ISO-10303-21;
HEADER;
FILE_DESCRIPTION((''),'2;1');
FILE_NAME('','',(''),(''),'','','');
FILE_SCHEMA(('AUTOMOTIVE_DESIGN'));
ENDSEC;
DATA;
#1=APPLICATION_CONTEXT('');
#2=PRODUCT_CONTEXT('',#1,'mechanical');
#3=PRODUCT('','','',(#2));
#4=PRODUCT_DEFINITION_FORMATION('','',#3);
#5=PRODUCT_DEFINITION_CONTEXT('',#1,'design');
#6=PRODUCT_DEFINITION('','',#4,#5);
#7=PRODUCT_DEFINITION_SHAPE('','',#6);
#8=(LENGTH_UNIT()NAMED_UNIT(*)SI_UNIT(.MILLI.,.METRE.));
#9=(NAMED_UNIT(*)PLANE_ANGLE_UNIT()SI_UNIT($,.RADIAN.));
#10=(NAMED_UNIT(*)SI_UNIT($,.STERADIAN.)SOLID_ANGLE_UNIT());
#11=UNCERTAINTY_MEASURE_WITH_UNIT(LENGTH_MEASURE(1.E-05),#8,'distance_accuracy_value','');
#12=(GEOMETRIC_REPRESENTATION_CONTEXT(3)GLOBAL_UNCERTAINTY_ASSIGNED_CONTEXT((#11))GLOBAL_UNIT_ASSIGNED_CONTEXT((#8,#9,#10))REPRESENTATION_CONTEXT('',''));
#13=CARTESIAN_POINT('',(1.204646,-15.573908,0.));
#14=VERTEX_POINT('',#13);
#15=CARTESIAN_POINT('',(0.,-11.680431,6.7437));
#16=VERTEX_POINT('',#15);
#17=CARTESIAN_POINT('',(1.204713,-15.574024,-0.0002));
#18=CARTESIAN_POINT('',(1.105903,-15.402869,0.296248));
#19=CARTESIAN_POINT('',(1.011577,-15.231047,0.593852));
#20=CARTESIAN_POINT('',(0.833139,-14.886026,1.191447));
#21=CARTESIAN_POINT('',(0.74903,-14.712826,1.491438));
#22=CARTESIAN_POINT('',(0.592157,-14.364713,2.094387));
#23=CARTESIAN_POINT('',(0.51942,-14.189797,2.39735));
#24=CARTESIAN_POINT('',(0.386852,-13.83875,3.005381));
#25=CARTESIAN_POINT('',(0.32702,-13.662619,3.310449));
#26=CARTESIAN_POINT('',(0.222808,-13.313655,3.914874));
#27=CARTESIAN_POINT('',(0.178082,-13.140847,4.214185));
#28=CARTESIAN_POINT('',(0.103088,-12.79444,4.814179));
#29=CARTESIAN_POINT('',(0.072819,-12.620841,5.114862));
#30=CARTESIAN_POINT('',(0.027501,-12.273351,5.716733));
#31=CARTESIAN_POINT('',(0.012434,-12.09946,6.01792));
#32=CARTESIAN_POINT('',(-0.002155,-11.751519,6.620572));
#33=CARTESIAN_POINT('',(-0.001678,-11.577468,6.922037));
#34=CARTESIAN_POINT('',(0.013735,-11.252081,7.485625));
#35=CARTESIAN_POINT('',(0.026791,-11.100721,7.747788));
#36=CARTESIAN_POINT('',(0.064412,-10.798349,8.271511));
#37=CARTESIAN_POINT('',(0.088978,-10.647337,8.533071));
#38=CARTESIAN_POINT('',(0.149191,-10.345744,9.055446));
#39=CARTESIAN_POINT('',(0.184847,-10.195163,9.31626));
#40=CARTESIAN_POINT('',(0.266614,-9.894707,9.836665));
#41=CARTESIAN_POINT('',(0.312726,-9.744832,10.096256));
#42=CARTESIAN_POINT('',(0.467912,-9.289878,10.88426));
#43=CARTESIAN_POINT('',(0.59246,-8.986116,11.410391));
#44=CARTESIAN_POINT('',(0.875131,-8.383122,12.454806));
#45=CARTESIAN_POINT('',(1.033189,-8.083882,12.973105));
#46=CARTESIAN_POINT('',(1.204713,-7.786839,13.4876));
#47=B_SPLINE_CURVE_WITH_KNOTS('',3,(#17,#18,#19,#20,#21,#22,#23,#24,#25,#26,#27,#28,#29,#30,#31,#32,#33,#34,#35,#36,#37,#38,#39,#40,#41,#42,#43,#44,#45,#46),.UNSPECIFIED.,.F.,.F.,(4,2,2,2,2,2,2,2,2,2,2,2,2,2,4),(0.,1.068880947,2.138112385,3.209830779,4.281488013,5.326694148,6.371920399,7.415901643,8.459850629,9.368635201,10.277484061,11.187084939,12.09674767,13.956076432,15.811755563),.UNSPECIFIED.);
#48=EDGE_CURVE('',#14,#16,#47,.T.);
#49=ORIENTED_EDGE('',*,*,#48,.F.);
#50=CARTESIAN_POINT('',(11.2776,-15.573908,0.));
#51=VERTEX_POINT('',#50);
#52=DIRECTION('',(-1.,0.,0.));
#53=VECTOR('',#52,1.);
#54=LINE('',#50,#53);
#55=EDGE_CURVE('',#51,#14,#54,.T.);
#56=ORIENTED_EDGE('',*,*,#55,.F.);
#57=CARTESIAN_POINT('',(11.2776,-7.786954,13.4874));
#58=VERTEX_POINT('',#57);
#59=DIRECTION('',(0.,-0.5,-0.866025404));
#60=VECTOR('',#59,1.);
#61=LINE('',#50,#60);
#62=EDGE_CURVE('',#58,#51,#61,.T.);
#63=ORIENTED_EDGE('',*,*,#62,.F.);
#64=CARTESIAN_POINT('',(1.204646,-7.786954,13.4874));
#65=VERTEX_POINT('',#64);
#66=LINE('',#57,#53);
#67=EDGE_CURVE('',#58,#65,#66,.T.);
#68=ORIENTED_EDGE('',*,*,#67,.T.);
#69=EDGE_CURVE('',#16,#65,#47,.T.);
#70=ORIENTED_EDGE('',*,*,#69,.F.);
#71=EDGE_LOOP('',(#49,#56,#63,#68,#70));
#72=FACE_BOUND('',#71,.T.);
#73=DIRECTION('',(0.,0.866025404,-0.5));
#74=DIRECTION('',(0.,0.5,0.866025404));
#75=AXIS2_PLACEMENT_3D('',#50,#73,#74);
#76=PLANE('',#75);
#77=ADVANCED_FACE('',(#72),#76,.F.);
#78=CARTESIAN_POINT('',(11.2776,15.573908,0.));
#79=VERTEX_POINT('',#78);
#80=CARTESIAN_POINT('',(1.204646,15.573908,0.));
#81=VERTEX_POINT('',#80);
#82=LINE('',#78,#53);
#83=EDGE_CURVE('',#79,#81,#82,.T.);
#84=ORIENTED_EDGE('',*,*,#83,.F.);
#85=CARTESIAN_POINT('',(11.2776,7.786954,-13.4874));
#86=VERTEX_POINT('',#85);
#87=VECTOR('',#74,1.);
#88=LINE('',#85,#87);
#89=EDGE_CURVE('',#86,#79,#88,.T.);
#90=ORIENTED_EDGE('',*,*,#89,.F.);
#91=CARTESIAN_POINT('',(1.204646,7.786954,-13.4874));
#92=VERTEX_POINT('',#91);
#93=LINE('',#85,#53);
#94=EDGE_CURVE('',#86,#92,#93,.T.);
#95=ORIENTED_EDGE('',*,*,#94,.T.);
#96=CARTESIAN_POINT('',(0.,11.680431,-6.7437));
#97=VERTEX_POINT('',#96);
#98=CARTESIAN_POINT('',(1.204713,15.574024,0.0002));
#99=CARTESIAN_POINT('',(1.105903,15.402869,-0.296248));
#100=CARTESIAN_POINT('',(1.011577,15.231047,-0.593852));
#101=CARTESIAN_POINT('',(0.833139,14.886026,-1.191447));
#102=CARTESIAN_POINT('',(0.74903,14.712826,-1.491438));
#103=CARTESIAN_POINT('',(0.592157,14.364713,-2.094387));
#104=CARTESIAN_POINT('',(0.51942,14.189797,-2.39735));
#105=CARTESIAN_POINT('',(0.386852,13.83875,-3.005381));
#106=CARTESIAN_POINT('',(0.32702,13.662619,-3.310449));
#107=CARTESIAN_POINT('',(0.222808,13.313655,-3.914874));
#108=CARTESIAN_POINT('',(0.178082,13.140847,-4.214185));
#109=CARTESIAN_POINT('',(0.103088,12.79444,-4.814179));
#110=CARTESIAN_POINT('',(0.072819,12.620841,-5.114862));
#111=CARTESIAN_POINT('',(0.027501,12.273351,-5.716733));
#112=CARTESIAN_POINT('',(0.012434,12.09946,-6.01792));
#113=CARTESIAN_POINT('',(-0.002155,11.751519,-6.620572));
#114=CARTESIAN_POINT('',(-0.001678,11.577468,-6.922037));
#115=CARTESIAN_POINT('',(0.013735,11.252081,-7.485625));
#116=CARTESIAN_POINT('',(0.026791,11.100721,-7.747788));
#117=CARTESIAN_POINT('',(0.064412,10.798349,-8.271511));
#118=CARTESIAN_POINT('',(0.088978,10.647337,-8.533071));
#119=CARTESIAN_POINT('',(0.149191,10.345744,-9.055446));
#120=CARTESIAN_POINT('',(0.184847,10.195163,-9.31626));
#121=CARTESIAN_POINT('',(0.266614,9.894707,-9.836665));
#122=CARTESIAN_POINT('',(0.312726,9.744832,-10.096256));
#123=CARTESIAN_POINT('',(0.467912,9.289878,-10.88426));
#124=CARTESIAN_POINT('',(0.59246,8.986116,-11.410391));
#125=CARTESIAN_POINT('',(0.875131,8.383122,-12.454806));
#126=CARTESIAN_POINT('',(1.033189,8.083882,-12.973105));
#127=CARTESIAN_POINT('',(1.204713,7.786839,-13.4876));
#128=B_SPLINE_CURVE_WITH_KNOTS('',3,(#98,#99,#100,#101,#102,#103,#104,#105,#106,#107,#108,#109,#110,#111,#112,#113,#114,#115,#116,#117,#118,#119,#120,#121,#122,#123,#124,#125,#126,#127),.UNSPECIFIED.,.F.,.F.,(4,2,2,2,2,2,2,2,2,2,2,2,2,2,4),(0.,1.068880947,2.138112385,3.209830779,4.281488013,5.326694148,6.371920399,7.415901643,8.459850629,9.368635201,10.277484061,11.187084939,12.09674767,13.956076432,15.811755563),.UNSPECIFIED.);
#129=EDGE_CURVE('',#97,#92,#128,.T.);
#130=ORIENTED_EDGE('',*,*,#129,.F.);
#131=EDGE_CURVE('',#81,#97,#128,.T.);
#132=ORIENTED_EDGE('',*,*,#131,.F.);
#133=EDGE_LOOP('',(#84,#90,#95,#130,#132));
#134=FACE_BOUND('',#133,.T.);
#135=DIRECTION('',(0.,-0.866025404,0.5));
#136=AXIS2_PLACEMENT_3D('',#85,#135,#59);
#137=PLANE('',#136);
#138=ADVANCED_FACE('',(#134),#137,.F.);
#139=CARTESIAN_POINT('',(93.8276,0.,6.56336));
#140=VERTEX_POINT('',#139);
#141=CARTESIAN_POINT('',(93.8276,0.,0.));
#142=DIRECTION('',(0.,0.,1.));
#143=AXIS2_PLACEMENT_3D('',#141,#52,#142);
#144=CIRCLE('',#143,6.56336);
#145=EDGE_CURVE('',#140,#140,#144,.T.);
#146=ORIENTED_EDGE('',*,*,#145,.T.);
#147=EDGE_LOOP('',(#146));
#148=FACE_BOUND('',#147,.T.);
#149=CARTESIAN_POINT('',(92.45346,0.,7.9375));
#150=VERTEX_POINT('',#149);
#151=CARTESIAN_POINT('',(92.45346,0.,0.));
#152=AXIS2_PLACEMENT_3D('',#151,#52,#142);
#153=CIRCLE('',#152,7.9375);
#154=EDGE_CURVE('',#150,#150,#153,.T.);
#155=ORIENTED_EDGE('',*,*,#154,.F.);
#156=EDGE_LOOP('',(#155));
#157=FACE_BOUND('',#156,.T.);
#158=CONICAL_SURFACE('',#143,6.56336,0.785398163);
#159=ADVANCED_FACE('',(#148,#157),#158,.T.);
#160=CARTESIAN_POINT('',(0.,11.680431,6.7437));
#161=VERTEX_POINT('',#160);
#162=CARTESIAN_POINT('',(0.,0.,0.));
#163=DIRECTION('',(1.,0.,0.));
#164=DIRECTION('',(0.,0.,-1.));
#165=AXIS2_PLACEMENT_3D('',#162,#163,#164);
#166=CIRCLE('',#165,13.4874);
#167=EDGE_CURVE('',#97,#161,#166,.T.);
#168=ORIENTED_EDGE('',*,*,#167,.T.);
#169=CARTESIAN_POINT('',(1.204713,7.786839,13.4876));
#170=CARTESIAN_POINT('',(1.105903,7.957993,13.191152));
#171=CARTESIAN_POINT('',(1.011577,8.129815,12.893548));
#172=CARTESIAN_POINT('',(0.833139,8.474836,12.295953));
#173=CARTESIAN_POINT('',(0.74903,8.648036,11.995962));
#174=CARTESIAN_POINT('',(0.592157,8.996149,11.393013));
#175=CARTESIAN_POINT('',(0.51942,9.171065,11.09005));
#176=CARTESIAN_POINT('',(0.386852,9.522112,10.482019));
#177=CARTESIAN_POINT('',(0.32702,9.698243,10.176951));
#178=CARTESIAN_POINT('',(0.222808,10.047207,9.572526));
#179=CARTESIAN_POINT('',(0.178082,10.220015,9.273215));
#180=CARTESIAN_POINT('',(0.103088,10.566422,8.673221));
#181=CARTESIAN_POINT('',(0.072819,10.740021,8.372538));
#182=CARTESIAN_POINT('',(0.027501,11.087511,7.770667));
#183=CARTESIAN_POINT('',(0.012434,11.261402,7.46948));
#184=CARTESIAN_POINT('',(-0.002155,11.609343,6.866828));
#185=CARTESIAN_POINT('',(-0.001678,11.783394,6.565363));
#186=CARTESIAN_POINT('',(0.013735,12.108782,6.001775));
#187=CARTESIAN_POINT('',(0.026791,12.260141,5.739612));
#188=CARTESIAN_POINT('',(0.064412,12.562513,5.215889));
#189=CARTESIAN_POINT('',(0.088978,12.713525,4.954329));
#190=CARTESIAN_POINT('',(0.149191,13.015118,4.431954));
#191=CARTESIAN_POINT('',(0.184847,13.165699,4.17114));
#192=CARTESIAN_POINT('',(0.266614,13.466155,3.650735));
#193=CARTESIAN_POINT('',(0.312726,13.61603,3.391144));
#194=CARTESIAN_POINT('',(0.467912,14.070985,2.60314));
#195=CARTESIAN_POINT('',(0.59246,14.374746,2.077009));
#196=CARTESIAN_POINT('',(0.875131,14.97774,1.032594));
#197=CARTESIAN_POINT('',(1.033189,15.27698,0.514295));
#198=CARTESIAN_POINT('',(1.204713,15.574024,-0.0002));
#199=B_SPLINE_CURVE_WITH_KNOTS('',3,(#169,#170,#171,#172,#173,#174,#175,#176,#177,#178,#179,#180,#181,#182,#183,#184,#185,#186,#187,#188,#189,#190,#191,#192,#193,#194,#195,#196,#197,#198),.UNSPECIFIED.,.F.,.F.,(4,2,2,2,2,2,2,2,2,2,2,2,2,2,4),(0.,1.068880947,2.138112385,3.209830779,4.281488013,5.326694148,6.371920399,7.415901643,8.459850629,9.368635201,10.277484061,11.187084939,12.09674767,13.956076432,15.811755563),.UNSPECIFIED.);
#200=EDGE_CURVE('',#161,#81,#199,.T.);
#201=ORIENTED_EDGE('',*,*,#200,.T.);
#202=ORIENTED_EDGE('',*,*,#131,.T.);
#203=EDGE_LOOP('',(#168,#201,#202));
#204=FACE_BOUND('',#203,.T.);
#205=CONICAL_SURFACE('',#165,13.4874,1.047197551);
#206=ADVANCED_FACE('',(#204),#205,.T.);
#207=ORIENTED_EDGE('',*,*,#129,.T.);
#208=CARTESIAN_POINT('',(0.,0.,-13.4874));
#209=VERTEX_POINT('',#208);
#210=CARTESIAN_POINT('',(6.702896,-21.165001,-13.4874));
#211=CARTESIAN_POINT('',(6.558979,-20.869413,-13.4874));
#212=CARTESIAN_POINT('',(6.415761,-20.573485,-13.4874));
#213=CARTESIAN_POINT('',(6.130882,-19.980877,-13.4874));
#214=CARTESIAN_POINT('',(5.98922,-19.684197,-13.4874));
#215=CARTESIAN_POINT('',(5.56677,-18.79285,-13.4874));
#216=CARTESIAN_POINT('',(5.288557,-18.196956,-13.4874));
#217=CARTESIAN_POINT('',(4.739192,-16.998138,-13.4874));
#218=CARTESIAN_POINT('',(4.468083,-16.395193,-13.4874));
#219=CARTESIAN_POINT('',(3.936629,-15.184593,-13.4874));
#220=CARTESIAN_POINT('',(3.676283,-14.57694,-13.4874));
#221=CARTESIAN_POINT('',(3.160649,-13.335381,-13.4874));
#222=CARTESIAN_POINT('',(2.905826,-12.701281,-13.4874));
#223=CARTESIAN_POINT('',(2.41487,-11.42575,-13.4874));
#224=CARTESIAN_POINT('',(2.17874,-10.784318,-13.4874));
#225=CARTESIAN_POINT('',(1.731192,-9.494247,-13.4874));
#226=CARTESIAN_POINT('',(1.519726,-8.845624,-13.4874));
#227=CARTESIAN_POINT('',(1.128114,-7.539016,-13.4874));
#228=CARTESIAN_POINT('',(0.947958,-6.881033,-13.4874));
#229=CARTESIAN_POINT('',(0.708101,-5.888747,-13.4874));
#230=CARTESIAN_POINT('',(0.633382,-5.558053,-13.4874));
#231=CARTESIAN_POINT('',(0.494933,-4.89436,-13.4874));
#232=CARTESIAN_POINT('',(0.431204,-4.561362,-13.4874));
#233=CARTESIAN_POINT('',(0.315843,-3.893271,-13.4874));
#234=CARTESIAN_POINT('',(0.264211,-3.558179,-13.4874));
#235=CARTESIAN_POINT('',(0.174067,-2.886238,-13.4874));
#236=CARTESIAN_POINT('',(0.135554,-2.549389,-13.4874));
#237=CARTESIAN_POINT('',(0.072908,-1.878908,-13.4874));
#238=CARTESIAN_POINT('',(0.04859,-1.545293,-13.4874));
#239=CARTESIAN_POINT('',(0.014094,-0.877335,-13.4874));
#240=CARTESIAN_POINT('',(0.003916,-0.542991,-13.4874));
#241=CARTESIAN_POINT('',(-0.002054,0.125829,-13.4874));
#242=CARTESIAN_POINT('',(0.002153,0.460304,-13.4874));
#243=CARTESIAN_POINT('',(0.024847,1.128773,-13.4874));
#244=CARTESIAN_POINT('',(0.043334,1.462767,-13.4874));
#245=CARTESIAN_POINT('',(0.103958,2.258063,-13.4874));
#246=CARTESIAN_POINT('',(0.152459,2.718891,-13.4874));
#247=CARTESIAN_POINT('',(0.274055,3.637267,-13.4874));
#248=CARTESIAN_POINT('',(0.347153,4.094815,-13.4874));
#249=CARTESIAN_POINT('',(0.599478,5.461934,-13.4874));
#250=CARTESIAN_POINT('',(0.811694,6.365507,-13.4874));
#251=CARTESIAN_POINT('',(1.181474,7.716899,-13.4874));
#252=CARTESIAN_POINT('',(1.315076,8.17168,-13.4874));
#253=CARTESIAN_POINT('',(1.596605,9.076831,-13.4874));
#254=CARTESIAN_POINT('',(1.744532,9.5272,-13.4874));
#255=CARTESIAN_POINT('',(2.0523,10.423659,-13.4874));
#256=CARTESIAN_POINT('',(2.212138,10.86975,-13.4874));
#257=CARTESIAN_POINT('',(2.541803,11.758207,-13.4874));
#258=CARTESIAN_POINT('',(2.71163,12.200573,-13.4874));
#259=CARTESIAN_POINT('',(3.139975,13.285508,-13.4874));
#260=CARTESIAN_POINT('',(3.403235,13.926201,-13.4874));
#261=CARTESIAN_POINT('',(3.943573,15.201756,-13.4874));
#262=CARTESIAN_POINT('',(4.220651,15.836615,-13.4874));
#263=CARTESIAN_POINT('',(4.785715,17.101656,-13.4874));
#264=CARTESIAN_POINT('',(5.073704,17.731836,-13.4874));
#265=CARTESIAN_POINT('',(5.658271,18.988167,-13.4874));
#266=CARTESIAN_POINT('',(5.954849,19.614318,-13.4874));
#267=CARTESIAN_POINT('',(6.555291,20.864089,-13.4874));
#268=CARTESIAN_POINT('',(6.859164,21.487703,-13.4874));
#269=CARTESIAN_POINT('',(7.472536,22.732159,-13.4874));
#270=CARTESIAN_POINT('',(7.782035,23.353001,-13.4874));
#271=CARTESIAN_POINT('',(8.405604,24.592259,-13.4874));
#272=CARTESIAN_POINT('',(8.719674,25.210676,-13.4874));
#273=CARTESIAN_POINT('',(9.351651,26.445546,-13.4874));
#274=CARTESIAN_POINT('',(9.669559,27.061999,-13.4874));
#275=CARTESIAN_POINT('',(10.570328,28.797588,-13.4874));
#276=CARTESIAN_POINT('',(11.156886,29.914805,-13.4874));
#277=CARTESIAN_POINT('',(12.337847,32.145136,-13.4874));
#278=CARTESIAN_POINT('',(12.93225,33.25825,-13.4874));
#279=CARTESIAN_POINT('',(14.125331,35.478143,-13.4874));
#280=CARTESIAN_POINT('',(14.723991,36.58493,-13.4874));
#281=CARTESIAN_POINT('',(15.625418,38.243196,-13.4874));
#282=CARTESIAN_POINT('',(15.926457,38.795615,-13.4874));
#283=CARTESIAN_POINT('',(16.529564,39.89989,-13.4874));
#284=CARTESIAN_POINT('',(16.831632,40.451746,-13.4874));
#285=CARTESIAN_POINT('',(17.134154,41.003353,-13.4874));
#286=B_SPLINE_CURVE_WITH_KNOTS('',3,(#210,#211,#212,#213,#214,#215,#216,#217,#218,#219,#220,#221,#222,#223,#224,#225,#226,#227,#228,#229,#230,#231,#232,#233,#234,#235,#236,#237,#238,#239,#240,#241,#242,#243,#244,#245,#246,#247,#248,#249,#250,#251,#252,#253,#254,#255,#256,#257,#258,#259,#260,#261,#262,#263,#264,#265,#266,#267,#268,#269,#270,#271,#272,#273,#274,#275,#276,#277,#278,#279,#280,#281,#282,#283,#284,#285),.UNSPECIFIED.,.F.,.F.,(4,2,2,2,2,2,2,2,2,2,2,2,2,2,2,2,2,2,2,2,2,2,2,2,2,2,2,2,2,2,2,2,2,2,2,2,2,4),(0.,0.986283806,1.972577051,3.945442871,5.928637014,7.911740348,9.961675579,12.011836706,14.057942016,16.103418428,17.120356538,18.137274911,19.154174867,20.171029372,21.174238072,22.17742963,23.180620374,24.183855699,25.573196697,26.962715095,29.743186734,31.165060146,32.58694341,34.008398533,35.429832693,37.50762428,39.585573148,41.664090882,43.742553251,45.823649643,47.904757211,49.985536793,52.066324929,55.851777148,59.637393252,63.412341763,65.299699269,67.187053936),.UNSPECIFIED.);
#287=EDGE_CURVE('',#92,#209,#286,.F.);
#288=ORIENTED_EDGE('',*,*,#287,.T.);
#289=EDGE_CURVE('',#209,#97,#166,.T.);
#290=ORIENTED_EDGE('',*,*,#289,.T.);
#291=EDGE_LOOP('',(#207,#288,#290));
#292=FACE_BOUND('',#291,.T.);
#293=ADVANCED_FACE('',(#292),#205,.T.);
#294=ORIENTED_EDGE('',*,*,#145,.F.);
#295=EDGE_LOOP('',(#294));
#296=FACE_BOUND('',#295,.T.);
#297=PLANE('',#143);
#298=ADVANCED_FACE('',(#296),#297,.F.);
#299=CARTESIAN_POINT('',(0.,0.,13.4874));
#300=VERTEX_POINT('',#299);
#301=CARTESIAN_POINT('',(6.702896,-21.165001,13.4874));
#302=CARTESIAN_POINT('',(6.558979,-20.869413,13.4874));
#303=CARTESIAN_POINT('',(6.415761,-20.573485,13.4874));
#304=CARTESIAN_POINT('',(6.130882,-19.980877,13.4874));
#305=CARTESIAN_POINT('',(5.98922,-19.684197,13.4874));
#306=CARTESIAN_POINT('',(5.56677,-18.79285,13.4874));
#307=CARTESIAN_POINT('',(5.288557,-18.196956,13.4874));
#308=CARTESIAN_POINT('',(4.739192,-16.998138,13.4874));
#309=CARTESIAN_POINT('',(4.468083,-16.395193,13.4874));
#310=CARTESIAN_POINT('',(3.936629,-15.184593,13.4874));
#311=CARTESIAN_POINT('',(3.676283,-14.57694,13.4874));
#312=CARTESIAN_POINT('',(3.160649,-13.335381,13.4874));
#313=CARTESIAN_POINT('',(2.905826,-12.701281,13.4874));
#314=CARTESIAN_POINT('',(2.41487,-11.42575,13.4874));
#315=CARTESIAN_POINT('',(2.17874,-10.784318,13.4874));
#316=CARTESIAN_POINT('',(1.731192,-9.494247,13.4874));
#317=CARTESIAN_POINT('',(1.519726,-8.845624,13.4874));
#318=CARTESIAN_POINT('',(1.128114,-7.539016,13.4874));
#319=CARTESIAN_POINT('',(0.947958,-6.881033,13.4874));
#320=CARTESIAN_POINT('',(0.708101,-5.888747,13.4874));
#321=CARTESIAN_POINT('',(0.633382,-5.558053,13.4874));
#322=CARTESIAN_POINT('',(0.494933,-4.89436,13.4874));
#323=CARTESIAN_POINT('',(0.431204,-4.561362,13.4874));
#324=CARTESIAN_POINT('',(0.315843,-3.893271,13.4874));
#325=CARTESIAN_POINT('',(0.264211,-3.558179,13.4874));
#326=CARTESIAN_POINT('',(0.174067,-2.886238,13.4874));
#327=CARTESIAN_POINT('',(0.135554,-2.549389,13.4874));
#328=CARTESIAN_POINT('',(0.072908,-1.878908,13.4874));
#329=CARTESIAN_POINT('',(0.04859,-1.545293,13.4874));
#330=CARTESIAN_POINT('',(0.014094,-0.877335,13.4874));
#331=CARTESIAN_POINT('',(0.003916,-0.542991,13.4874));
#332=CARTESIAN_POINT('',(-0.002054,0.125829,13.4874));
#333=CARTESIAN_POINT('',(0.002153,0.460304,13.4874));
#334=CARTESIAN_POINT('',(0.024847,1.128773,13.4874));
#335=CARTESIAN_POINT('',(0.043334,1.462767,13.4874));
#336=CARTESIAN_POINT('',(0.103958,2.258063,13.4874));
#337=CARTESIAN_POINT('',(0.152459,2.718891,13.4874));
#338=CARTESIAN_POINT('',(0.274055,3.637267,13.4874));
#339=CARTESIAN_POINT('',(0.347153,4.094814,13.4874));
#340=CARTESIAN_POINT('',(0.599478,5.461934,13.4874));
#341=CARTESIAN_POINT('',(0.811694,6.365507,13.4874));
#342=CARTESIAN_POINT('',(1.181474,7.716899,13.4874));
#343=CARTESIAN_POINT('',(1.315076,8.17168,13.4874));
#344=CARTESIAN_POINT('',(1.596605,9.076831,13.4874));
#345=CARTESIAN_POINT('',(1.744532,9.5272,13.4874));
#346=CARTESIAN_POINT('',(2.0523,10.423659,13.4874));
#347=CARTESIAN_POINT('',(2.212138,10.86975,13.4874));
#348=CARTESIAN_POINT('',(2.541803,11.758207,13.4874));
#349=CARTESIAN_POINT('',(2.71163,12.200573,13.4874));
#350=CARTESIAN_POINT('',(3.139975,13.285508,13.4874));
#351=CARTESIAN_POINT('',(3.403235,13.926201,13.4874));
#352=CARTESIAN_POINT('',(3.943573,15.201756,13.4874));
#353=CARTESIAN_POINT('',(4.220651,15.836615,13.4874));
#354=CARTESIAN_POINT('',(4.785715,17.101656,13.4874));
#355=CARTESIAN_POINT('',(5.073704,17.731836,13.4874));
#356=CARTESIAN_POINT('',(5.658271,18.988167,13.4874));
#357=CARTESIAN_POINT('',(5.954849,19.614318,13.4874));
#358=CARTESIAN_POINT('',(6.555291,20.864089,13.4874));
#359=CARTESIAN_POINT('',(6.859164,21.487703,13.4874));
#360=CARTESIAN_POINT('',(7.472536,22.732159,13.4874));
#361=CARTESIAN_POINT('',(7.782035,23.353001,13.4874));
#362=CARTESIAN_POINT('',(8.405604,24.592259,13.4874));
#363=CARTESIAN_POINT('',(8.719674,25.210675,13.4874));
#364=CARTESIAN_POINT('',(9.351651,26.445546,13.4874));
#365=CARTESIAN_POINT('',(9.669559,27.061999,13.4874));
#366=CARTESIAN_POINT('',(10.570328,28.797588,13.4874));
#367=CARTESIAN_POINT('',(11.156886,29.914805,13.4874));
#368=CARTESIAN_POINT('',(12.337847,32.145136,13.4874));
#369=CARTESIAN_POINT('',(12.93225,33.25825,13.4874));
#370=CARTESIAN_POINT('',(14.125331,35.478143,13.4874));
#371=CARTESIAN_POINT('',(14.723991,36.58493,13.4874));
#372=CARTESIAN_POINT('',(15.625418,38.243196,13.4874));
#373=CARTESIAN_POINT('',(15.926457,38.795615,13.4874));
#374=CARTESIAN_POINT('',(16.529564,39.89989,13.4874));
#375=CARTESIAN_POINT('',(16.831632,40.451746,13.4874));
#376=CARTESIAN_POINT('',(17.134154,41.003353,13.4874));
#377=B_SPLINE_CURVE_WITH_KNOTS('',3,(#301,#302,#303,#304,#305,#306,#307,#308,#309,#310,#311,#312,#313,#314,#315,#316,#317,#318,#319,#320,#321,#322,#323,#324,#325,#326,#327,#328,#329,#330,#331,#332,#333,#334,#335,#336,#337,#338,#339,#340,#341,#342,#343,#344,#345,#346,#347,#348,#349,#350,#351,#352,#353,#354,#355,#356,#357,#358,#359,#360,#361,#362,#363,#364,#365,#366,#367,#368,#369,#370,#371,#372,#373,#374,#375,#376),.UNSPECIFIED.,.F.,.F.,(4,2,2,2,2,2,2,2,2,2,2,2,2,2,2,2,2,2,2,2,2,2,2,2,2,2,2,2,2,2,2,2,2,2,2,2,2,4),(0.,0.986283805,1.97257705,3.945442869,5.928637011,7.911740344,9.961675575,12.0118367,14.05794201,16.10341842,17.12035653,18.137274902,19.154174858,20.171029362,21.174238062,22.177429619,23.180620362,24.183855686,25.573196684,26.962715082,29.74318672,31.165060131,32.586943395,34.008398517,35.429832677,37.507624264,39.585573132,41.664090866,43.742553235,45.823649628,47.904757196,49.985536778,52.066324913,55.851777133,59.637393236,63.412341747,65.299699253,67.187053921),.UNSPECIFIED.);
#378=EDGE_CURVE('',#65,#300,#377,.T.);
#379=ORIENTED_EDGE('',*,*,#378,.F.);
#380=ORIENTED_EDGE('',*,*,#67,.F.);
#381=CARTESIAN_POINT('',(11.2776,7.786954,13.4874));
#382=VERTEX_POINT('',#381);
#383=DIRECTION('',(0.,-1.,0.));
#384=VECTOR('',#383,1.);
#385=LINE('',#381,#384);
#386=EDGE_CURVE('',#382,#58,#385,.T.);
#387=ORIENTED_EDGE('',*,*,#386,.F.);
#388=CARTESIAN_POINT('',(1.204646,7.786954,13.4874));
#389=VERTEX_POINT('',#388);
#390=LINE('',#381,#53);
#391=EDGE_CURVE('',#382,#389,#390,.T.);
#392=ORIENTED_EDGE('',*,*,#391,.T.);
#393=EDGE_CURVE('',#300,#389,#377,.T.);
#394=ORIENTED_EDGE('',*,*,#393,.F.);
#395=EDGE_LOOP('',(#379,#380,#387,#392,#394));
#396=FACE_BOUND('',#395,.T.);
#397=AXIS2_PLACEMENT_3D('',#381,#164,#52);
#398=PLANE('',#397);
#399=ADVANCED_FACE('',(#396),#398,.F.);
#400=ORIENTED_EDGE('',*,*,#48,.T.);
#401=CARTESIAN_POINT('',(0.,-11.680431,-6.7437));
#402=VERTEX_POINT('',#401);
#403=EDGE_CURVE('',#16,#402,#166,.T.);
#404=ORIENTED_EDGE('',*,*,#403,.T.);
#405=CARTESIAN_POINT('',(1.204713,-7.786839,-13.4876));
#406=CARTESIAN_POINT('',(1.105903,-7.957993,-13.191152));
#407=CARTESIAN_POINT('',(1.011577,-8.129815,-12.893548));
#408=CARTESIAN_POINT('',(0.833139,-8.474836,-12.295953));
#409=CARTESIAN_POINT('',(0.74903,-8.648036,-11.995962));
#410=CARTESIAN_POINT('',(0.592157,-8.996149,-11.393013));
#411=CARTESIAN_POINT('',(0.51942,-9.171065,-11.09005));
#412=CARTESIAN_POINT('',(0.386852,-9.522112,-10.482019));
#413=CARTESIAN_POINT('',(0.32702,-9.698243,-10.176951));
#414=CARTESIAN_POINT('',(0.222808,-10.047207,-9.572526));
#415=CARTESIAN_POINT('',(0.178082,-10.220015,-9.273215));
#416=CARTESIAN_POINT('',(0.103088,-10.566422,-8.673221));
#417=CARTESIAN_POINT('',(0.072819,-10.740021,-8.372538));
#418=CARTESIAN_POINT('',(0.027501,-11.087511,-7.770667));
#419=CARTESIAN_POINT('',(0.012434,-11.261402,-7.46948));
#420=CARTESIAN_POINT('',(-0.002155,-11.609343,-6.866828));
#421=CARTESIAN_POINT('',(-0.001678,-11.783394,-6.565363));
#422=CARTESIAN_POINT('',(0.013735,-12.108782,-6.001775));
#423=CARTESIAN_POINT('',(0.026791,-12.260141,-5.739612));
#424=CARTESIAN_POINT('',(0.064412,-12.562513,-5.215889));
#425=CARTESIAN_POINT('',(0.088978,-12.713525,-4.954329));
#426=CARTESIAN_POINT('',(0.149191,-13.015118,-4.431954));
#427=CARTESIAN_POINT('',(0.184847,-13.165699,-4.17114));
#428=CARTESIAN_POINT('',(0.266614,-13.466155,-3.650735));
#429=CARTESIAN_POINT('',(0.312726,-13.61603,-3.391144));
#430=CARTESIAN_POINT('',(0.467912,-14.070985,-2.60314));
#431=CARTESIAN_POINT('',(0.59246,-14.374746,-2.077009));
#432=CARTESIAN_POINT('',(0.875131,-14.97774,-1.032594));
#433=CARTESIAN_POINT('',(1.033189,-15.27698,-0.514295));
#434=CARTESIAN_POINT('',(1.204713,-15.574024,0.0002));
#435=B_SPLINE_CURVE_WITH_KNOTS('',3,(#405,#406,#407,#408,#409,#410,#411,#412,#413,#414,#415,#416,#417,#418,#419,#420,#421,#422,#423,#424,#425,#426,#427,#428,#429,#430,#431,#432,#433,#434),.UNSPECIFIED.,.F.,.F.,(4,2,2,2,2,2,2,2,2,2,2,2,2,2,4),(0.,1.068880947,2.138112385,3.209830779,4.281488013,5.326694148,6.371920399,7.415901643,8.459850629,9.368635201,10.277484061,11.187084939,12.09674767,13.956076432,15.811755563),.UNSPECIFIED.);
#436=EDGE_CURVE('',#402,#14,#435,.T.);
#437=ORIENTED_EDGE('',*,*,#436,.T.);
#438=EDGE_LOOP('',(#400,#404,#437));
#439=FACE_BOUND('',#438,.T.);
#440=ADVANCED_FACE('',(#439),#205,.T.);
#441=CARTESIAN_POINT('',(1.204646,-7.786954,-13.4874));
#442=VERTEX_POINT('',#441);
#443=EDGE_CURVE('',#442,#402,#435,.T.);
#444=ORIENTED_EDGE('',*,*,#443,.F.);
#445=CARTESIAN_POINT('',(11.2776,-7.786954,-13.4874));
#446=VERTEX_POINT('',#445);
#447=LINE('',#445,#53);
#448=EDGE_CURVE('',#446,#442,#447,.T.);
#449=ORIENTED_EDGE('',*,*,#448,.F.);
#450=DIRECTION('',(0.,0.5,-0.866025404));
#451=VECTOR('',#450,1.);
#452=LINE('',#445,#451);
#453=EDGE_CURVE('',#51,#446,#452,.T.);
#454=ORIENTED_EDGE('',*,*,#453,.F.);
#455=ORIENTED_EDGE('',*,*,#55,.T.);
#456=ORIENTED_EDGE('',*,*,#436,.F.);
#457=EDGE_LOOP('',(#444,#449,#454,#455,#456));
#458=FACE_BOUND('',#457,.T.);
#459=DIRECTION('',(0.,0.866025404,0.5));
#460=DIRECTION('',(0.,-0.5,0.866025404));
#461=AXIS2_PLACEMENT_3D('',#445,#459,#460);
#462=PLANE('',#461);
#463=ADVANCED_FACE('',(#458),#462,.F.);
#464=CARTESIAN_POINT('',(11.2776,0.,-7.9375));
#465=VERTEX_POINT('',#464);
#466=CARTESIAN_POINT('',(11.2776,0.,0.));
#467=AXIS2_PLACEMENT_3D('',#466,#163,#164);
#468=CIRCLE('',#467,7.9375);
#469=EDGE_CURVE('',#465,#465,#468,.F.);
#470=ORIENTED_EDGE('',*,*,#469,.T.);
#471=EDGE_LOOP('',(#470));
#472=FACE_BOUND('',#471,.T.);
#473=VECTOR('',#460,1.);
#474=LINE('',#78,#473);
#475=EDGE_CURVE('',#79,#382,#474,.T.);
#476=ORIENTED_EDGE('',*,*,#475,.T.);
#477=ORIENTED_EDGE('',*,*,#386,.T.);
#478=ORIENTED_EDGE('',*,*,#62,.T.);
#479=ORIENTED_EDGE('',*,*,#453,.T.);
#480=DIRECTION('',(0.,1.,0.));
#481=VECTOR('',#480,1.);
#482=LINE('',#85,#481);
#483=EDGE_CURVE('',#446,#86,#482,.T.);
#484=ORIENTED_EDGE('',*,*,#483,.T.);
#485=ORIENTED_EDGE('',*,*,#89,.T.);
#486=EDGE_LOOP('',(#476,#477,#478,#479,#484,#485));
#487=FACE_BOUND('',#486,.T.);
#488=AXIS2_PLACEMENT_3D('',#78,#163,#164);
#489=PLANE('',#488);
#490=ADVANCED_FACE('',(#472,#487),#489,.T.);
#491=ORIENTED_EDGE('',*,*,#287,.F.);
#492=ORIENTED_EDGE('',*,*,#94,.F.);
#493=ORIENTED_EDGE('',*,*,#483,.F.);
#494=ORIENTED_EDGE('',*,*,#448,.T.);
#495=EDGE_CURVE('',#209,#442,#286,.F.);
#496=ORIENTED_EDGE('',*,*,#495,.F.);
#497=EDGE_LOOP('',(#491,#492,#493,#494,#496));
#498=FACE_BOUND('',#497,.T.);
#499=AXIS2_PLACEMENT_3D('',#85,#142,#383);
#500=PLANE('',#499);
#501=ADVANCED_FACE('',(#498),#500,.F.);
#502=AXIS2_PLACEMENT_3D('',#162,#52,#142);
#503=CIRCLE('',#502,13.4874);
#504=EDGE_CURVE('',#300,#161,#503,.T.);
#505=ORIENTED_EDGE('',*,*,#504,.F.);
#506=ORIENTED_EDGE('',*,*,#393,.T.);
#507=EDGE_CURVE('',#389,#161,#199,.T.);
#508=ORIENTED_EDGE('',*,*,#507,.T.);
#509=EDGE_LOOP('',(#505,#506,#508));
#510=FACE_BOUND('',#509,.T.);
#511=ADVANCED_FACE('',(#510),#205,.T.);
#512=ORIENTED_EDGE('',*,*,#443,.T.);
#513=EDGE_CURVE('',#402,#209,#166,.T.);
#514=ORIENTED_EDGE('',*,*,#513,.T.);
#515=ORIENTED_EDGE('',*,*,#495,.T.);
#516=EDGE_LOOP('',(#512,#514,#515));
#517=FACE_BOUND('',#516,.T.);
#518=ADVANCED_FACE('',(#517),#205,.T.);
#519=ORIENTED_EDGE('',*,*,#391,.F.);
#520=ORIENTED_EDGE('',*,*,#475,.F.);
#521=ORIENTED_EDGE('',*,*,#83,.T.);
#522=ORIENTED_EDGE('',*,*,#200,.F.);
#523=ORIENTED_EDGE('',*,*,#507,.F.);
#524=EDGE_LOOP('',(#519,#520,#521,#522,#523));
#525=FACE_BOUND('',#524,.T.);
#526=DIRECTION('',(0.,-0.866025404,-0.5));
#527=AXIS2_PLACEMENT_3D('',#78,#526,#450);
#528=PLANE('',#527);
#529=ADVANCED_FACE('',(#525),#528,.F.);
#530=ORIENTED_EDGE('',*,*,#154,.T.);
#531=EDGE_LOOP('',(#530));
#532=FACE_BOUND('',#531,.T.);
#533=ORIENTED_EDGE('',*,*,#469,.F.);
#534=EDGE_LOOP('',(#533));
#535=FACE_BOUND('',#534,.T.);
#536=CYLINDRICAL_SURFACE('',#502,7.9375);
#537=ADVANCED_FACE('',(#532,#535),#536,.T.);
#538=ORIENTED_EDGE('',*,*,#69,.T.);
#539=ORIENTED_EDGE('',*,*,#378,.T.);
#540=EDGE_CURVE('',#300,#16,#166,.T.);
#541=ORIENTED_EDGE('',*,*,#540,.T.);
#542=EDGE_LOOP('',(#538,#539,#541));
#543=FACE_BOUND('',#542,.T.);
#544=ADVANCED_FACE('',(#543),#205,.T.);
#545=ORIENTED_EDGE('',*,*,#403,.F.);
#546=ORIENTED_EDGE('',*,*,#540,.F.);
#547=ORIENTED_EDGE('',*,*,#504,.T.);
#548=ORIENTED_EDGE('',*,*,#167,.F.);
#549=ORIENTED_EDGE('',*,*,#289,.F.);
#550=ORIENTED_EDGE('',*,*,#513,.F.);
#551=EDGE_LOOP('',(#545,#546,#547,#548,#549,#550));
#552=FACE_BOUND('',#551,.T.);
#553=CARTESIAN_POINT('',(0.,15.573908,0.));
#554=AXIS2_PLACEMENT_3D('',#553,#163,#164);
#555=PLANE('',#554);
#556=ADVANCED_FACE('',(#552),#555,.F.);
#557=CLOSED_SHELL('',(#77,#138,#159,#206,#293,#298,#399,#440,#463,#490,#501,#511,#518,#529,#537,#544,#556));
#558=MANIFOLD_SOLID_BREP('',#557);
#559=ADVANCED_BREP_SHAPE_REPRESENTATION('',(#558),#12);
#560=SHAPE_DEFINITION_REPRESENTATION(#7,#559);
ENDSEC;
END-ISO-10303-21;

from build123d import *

# Parameters (mm, degrees)
BASEHEAD_DEPTH = 11.2776


with BuildPart() as part:
    # Sketch1 → BaseHead (new body)
    with BuildSketch(Plane(origin=(0, 0, 0), x_dir=(0, 0, -1), z_dir=(1, 0, 0))):
        Polygon((13.4874, 7.786954021), (13.4874, -7.786954021), (0, -15.573908041), (-13.4874, -7.786954021), (-13.4874, 7.786954021), (0, 15.573908041), align=None)
    extrude(amount=BASEHEAD_DEPTH)

    # BodySke → BaseBody (revolve)
    with BuildSketch(Plane.XY, mode=Mode.PRIVATE) as basebody_sk:
        Polygon((0, 0), (93.8276, 0), (93.8276, 6.56336), (92.45346, 7.9375), (0, 7.9375), align=None)
    revolve(basebody_sk.sketch.rotate(Axis((0, 0, 0), (1, 0, 0)), 90), axis=Axis((0, 0, 0), (1, 0, 0)))

    # Sketch3 → HeadChamfer (revolve, cut)
    with BuildSketch(Plane.XY):
        Polygon((0, 13.4874), (4.870820189, 21.923908041), (4.870820189, 28.273908041), (-12.7, 28.273908041), (-12.7, 13.4874), align=None)
    revolve(axis=Axis((0, 0, 0), (1, 0, 0)), mode=Mode.SUBTRACT)


solid = part.part
